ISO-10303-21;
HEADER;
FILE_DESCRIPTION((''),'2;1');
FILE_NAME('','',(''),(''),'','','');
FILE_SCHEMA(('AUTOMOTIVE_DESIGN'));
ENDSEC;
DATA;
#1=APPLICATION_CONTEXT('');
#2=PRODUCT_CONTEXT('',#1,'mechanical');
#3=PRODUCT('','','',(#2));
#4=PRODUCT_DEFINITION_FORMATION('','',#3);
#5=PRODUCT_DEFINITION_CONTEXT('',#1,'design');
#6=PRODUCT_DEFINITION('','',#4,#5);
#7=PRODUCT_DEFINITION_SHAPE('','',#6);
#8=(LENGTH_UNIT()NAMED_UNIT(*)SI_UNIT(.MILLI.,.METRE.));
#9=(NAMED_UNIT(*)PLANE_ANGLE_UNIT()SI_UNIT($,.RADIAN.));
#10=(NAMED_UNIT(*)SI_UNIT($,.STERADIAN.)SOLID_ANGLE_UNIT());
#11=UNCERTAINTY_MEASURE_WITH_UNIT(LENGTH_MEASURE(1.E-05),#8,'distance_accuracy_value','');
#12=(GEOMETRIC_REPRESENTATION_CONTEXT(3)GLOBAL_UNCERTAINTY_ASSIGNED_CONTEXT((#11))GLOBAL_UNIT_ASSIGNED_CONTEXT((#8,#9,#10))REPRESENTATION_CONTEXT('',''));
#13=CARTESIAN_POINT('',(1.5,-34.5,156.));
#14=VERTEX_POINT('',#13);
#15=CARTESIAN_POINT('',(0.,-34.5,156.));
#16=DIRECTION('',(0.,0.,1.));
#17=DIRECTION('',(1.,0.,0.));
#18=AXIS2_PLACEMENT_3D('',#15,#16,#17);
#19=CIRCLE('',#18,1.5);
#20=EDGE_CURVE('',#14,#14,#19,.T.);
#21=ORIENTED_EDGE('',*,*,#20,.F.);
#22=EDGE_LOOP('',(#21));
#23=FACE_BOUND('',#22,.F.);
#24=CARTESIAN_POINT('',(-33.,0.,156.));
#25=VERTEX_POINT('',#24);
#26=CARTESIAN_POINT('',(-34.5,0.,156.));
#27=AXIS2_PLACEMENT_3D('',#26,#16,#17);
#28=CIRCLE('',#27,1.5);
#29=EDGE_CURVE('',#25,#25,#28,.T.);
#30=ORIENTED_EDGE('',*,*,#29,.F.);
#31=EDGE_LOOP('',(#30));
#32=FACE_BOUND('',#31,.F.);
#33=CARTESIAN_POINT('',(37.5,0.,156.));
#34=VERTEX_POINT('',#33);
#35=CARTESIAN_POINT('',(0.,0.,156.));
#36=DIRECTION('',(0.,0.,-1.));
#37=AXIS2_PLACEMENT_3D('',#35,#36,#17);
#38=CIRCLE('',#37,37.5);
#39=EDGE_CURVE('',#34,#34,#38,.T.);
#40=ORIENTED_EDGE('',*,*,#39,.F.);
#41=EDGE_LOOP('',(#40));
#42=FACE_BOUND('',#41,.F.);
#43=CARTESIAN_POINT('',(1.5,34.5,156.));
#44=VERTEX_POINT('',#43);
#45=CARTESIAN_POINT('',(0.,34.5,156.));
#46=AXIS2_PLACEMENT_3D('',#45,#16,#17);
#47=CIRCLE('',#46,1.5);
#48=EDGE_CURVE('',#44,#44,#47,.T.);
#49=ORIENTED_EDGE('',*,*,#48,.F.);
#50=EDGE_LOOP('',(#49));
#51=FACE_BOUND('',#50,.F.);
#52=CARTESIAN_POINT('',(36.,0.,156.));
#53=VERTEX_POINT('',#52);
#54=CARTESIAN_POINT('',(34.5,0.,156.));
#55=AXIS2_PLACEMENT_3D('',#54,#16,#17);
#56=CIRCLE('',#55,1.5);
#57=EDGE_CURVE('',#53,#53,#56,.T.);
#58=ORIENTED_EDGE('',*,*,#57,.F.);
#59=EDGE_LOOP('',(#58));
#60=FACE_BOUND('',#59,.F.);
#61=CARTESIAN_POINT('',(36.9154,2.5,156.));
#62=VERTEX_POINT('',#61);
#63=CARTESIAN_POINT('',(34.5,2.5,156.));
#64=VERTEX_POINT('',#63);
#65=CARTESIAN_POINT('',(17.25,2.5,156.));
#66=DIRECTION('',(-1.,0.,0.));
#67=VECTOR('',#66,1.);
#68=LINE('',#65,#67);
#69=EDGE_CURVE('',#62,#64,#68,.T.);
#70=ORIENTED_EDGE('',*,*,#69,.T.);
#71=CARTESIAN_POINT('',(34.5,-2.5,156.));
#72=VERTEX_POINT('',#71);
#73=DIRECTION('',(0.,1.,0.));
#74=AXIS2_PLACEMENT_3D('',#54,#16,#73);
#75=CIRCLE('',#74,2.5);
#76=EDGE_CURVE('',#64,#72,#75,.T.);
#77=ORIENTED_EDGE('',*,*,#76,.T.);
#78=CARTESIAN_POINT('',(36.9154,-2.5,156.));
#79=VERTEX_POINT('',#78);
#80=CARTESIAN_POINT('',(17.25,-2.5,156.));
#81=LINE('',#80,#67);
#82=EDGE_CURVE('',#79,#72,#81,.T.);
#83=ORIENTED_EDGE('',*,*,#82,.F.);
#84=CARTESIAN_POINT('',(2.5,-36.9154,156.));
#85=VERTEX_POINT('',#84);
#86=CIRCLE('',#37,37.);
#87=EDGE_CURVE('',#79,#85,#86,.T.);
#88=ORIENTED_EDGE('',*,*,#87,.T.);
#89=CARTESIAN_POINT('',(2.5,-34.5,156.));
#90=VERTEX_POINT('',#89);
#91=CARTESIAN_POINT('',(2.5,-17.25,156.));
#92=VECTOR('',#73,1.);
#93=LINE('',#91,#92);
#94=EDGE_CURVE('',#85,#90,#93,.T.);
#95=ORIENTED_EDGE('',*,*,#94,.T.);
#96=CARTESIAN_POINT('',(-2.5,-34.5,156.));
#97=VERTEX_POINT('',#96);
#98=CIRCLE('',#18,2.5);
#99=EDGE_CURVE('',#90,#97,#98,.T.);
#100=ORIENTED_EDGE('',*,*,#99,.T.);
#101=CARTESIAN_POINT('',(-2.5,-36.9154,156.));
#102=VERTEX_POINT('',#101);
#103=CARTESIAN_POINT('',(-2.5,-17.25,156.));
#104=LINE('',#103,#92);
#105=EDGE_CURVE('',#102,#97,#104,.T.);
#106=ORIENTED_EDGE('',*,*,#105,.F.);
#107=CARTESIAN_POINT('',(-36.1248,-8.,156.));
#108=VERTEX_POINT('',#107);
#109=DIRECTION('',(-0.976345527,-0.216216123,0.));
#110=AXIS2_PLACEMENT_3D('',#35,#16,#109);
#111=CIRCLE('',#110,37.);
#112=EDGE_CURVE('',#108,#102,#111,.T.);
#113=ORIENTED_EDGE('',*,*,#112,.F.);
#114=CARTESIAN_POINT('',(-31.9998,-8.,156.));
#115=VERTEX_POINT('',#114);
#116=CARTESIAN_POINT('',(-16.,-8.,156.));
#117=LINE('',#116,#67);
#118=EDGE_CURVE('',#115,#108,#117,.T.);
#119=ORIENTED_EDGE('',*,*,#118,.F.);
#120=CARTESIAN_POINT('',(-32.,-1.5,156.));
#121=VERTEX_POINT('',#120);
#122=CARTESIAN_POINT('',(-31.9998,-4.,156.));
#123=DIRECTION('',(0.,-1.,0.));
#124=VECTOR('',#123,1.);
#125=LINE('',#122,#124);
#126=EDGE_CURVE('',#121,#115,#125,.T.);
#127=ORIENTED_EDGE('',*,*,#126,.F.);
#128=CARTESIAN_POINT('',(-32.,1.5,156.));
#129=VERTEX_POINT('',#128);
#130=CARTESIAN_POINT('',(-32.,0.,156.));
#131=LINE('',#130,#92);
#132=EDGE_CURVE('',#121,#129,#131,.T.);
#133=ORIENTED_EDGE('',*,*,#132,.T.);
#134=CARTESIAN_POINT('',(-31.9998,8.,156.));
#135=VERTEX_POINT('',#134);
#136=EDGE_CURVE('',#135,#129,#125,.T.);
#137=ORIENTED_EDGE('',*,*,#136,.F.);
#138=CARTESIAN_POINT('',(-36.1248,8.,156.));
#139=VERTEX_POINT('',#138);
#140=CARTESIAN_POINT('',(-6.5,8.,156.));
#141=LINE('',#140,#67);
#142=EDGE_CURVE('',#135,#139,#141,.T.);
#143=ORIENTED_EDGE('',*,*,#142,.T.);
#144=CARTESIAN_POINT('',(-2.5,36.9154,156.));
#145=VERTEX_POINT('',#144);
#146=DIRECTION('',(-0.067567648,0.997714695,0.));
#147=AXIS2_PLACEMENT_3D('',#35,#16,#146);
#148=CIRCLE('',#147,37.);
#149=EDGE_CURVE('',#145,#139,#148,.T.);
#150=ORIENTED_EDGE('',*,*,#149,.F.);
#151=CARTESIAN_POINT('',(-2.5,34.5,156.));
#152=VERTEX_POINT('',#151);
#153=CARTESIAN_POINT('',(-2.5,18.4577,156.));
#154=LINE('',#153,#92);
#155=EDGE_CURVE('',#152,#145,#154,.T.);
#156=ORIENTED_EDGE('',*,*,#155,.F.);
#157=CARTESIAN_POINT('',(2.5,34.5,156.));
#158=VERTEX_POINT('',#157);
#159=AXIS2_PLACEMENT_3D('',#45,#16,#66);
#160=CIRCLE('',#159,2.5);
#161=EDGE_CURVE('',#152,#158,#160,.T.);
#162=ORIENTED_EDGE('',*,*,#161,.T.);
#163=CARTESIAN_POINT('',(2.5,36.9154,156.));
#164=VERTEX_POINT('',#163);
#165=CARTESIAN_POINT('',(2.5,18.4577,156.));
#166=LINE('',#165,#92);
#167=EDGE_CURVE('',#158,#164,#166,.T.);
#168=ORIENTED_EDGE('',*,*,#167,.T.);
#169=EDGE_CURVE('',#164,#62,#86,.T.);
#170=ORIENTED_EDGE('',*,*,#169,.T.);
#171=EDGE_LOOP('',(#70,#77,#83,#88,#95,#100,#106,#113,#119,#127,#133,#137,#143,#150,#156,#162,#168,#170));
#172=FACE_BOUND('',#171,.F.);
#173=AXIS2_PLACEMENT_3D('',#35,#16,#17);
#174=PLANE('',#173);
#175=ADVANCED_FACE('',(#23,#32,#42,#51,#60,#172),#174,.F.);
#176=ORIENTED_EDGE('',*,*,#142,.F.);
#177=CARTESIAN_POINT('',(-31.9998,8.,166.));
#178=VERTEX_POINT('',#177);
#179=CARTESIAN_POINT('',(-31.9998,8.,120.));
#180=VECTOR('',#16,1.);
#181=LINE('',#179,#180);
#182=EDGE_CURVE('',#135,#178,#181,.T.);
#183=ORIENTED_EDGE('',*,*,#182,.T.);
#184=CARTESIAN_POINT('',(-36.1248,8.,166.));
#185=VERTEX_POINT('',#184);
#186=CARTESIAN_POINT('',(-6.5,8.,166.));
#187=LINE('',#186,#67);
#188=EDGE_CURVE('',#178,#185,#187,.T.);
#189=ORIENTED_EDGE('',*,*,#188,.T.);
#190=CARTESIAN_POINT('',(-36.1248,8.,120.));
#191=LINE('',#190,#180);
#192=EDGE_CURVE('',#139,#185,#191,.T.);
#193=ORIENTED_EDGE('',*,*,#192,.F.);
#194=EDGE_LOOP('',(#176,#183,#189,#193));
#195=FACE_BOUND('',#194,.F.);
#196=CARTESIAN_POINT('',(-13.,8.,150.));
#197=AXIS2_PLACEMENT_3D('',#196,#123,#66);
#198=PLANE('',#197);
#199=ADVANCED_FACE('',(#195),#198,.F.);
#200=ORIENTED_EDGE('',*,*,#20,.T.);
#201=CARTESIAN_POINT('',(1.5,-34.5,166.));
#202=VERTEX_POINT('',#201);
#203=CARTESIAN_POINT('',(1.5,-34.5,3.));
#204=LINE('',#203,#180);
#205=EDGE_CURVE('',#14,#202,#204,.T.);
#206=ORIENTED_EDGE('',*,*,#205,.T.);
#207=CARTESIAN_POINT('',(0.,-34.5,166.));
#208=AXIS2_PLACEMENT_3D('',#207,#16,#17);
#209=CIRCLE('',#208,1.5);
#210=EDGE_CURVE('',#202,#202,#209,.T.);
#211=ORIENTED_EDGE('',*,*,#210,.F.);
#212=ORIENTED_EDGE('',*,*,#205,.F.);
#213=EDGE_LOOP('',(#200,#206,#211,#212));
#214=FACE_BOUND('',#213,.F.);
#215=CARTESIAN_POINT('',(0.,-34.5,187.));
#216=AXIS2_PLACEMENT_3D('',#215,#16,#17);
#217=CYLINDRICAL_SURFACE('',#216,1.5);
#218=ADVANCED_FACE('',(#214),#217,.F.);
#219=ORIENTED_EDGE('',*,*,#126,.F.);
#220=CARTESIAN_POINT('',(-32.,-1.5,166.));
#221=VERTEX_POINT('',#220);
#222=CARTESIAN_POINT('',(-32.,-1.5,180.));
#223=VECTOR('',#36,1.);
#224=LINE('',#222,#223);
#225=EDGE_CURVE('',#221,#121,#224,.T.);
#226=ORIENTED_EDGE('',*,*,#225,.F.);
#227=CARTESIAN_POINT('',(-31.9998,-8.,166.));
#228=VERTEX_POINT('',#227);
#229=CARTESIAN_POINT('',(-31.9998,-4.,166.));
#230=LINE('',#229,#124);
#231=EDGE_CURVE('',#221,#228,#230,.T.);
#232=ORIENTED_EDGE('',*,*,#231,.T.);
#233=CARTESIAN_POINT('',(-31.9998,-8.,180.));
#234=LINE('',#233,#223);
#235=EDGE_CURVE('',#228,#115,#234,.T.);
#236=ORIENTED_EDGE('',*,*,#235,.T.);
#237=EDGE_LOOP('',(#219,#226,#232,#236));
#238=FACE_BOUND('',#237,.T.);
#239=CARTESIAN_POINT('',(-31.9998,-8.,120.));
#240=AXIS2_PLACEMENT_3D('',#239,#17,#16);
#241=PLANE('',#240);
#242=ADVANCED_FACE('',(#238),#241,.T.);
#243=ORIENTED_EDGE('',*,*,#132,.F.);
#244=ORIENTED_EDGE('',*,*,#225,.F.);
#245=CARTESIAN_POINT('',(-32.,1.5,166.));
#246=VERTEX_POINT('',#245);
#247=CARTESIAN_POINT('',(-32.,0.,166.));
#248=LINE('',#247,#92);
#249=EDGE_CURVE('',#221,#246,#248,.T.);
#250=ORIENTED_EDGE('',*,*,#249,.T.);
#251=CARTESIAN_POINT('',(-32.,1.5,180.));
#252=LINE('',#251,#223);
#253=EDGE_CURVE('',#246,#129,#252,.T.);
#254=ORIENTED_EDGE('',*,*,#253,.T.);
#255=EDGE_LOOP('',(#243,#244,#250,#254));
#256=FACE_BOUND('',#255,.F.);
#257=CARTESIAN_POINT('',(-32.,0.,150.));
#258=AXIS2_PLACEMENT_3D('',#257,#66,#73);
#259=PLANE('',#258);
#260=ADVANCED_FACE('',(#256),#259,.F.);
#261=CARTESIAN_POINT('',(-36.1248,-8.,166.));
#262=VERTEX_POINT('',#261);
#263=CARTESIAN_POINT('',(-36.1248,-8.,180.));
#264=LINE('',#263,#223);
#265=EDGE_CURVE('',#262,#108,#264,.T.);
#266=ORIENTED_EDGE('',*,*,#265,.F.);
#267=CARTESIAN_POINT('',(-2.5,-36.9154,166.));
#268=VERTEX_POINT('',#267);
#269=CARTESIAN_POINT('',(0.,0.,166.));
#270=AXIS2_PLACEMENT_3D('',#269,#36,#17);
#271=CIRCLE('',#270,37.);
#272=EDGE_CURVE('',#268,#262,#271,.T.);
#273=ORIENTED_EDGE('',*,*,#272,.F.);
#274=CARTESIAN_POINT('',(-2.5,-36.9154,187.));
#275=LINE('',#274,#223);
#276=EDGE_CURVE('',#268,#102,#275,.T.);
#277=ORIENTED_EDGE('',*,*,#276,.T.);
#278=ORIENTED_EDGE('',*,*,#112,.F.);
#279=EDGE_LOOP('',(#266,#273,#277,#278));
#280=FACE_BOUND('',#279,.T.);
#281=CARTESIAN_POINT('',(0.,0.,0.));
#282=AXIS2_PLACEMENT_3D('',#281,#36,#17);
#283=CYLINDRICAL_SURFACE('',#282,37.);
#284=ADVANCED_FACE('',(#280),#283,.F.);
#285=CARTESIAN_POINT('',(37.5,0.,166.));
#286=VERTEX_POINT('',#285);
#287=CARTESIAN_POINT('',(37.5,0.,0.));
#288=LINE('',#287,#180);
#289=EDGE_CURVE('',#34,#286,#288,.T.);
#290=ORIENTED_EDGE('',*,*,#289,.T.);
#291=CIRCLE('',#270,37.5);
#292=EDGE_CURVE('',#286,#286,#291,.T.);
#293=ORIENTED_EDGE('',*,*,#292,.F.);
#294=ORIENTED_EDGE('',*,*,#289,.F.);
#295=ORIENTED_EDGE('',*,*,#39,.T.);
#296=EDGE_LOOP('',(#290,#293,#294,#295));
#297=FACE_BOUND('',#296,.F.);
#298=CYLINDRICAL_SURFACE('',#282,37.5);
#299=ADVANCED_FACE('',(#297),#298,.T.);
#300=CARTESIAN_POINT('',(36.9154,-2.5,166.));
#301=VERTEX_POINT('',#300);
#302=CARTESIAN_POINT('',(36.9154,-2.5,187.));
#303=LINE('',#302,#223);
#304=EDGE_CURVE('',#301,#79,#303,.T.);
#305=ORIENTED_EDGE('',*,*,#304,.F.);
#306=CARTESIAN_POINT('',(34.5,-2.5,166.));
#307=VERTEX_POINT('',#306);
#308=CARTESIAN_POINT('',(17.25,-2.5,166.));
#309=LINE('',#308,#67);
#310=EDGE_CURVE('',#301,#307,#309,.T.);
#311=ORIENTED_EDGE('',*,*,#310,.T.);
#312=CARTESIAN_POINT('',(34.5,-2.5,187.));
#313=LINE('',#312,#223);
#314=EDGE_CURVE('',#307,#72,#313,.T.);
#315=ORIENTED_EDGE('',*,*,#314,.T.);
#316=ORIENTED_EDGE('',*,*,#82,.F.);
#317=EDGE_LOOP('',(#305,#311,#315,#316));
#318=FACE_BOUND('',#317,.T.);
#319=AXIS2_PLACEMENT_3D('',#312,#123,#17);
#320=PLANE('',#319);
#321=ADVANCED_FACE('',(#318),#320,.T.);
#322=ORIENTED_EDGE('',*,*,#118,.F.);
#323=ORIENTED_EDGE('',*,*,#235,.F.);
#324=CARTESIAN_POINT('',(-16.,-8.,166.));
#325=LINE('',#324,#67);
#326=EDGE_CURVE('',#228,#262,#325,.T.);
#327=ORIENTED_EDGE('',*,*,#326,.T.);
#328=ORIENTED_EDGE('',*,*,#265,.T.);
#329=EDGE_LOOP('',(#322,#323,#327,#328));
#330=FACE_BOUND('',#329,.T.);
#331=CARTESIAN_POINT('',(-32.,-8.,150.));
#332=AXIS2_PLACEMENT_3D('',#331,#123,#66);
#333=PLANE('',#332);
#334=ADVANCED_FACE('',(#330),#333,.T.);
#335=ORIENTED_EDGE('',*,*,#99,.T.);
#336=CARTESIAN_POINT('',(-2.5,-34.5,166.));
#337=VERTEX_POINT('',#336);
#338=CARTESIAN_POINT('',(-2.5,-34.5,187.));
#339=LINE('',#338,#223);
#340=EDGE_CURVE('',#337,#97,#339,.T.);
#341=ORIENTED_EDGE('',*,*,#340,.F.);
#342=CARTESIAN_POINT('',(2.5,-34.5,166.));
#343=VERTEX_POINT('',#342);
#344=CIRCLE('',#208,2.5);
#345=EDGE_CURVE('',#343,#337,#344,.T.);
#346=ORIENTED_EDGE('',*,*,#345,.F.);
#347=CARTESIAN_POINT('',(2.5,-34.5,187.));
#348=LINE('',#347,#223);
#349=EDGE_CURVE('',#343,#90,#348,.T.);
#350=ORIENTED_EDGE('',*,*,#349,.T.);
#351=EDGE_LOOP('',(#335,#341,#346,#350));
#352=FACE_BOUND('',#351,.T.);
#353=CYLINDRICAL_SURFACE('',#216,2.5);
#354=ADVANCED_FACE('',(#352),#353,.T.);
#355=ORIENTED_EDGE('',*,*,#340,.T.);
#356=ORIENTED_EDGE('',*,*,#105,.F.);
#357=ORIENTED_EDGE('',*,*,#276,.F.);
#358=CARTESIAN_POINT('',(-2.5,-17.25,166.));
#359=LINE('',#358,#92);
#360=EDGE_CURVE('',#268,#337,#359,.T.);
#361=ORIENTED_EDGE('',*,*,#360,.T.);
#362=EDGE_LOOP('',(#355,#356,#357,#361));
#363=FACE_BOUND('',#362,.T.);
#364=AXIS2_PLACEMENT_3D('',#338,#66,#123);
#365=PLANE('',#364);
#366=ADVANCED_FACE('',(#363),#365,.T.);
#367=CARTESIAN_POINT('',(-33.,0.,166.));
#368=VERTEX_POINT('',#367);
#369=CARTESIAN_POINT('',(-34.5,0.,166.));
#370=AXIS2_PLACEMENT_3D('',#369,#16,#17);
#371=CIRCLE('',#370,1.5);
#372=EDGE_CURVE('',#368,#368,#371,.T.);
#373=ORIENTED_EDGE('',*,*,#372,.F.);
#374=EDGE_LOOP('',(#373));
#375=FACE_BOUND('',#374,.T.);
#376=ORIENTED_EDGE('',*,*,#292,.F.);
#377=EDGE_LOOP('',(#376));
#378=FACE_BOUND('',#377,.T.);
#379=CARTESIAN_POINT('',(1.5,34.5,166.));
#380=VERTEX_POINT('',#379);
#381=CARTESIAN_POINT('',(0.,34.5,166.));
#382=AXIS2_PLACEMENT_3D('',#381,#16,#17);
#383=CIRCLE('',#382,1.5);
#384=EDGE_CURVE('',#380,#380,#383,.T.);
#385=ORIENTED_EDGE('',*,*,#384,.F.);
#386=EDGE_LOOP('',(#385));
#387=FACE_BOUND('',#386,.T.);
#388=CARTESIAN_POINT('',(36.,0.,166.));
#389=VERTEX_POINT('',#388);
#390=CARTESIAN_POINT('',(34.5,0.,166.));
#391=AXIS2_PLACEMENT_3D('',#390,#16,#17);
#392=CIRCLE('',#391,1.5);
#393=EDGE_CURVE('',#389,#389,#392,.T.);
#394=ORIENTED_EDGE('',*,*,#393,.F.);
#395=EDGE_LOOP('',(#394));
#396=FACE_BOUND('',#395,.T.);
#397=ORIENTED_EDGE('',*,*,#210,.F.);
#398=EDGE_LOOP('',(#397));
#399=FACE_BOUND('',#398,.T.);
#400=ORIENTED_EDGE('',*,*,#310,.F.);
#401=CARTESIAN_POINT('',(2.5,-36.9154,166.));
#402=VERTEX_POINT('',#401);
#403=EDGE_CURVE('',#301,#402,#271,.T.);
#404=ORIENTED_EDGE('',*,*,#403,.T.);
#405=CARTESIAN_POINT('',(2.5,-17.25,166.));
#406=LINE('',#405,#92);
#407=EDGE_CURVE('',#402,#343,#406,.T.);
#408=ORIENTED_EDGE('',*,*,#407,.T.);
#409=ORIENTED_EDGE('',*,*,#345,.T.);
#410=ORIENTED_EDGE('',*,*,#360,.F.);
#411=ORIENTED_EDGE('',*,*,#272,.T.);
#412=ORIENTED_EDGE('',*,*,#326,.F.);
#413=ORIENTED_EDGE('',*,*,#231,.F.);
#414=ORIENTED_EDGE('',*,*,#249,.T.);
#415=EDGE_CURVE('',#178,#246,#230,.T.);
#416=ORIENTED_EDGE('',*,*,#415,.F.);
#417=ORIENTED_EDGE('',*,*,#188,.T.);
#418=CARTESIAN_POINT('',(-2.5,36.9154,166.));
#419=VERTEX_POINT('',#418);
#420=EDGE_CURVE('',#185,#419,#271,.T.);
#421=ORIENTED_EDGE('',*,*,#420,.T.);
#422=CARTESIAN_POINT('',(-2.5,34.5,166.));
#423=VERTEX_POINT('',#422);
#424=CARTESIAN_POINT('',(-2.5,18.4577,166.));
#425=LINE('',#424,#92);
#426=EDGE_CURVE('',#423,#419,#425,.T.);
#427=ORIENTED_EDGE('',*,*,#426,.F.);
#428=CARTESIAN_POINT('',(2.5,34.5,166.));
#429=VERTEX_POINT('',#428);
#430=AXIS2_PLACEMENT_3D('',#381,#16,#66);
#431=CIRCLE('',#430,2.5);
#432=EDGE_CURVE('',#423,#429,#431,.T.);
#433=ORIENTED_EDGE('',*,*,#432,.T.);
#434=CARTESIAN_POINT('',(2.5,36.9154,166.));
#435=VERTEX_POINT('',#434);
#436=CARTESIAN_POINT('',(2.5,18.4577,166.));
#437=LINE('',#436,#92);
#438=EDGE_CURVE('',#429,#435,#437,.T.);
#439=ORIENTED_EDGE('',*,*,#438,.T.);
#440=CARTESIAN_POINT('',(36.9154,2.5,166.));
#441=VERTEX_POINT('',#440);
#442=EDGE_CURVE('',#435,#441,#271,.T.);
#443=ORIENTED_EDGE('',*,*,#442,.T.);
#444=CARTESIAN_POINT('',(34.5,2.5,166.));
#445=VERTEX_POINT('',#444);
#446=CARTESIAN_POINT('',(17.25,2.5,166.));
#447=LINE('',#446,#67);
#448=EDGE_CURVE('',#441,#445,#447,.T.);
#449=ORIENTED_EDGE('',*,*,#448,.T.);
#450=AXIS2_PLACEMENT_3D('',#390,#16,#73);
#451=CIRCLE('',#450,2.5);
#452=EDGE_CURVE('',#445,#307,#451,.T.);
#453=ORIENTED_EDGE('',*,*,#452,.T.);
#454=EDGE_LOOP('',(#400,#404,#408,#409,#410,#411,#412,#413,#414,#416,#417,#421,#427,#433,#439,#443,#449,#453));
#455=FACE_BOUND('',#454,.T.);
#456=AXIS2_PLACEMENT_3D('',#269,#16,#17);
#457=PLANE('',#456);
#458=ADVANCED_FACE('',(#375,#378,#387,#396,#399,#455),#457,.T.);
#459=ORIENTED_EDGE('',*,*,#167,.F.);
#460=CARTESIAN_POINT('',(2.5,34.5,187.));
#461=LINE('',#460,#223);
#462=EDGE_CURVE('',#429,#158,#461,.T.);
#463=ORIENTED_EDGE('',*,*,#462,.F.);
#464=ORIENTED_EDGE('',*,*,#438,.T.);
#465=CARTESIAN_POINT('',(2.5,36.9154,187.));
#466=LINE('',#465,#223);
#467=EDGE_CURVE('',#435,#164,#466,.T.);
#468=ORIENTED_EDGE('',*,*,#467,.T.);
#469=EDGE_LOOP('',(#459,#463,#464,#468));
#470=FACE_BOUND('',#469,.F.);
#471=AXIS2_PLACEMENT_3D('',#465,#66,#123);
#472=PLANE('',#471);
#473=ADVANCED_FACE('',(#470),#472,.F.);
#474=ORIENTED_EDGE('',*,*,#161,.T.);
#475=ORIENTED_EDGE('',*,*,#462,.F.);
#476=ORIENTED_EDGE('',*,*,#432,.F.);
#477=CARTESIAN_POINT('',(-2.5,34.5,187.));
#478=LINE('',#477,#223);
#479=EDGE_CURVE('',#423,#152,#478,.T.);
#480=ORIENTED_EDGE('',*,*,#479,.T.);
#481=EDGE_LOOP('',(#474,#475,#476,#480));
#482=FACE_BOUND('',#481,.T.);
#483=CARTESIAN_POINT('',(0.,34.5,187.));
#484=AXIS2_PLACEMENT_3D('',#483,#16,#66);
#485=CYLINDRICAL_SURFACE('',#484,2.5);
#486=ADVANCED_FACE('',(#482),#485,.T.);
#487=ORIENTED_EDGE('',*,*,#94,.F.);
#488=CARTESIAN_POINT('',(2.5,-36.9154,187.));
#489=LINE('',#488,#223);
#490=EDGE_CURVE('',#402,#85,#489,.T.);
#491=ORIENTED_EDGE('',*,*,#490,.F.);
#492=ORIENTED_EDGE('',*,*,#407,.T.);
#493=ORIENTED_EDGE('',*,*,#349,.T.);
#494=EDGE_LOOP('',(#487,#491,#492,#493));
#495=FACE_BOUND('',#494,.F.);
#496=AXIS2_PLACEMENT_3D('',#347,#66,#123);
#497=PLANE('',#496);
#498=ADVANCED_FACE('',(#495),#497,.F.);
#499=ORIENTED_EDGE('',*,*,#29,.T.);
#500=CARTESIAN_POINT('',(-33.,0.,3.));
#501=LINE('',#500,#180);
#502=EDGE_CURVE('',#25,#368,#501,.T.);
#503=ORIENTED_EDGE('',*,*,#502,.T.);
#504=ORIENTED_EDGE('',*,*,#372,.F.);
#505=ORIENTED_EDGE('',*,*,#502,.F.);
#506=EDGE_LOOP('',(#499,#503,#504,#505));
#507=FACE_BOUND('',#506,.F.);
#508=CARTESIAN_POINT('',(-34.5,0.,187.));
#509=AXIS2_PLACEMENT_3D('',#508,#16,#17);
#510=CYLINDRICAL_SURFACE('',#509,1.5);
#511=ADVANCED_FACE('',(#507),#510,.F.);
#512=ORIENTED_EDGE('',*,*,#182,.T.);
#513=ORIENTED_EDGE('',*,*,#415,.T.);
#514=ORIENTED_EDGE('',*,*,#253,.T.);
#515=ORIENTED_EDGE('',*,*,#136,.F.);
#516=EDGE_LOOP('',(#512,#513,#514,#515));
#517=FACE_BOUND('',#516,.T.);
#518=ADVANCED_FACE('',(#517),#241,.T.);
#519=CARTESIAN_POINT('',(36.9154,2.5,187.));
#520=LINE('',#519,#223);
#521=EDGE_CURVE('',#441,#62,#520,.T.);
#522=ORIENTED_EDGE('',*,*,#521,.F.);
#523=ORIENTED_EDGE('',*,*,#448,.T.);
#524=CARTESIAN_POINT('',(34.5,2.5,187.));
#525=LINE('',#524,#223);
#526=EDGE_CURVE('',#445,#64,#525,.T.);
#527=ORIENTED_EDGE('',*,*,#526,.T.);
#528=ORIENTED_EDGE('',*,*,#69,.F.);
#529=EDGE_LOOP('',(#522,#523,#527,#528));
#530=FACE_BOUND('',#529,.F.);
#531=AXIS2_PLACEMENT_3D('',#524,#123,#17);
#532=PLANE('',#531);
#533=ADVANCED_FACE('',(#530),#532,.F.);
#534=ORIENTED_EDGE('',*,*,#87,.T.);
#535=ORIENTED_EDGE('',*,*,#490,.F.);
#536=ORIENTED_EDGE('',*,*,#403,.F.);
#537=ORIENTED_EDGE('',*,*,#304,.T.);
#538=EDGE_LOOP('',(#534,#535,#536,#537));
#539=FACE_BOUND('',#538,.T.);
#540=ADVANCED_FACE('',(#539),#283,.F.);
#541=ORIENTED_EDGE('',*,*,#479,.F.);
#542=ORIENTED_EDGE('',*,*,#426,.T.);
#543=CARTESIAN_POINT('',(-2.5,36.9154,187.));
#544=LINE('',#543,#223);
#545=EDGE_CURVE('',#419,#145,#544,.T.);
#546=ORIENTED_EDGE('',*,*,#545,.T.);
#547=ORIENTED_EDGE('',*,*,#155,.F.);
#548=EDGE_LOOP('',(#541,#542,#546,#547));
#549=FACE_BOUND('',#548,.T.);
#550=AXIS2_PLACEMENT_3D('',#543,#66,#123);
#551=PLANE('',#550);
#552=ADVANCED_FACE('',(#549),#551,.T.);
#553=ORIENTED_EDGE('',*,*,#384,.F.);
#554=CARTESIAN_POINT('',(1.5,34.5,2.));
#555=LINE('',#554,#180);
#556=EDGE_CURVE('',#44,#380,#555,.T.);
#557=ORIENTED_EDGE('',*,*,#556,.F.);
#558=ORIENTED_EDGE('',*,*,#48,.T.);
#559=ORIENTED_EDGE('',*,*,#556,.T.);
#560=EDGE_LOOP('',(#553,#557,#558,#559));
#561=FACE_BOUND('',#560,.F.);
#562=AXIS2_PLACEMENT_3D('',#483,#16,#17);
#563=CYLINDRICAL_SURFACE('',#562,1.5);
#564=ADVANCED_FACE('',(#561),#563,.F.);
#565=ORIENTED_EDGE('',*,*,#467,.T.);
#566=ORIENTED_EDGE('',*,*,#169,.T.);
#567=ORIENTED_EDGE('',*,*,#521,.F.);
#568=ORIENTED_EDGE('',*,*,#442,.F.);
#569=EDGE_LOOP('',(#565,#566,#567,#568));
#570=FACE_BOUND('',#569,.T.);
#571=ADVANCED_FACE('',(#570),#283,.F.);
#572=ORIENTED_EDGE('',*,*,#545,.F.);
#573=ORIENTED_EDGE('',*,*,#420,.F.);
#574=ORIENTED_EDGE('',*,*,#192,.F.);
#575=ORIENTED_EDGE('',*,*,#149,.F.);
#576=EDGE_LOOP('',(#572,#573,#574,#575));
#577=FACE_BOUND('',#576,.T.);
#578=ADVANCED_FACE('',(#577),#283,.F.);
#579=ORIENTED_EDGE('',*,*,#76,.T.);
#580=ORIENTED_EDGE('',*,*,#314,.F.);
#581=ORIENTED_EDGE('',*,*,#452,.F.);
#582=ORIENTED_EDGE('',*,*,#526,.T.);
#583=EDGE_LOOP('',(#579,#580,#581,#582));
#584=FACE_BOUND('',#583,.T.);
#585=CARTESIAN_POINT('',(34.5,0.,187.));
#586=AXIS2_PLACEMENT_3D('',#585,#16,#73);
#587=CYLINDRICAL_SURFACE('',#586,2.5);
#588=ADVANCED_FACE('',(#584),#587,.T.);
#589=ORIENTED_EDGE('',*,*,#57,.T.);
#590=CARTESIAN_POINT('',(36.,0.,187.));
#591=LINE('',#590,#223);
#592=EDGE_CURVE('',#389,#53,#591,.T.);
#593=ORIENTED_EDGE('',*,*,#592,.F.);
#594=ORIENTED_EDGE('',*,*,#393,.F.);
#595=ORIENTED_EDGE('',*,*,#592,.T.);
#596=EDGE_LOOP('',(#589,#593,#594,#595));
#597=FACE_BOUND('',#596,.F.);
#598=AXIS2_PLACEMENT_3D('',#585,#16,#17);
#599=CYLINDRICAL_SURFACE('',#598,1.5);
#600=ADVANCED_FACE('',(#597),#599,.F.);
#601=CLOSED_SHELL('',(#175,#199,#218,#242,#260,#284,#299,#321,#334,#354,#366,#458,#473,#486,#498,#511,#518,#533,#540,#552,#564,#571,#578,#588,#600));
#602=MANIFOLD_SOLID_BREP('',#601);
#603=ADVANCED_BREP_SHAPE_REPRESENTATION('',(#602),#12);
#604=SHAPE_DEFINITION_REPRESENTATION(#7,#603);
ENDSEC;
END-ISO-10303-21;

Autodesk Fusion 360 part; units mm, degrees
sketch "Esboço2" plane through (0, 0, 0) normal (0, 0, 1) x (1, 0, 0)
  circle A0 centre (0, 0) radius 37.5
  circle A1 centre (0, 0) radius 37
  dimension "d6" = 75
  dimension "d7" = 74
extrude "Extrusão2" add sketch "Esboço2" along normal blind 190
ref_plane "Plano de trabalho9" through (0, 0, 187) normal (0, 0, 1) x (1, 0, 0)
sketch "Esboço10" plane through (0, 0, 187) normal (0, 0, 1) x (1, 0, 0)
  circle A0 centre (0, 0) radius 34.5 construction
  line L0 (0, 0) -> (-68.1762, 0) construction
  line L1 (0, 0) -> (60, 0) construction
  line L2 (0, 0) -> (0, 45) construction
  line L3 (0, 0) -> (0, -43.1659) construction
  circle A1 centre (34.5, 0) radius 1.5
  line L4 (3, -43) -> (3, -42)
  circle A2 centre (0, 34.5) radius 1.5
  circle A3 centre (-34.5, 0) radius 1.5
  circle A4 centre (0, -34.5) radius 1.5
  arc A5 (34.5, 2.5) -> (34.5, -2.5) centre (34.5, 0) ccw
  arc A6 (-2.5, 34.5) -> (2.5, 34.5) centre (0, 34.5) ccw
  arc A7 (-34.5, -2.5) -> (-34.5, 2.5) centre (-34.5, 0) ccw
  arc A8 (2.5, -34.5) -> (-2.5, -34.5) centre (0, -34.5) ccw
  circle A9 centre (0, 0) radius 37
  line L5 (-36.9154, 2.5) -> (-34.4093, 2.5)
  line L6 (-36.9154, -2.5) -> (-34.4093, -2.5)
  line L7 (34.5, 2.5) -> (36.9154, 2.5)
  line L8 (34.5, -2.5) -> (36.9154, -2.5)
  line L9 (2.5, 36.9154) -> (2.5, 34.4093)
  line L10 (-2.5, 36.9154) -> (-2.5, 34.4093)
  line L11 (-2.5, -34.4093) -> (-2.5, -36.9154)
  line L12 (2.5, -34.4093) -> (2.5, -36.9154)
  dimension "d82" = 69
  dimension "d83" = 3
  dimension "d84" = 2.5
  dimension "d85" = 2.5
  dimension "d87" = 360
  dimension "d89" = 360
  dimension "d90" = 2.5
extrude "Extrusão12" add sketch "Esboço10" against normal blind 184 contours A5 A9 L7 L8 | A6 A9 L9 L10 | A8 A9 L11 L12 | A7 A9 L5 L6
thread "Rosca3"
ref_plane "Plano de trabalho3" through (0, 0, 32) normal (0, 0, 1) x (1, 0, 0)
sketch "Esboço3" plane through (0, 0, 32) normal (0, 0, 1) x (1, 0, 0)
  line L0 (0, 0) -> (0, 37) construction
  line L1 (34.2491, 14) -> (-34.2491, 14)
  circle A0 centre (0, 0) radius 37
  line L2 (31.1288, 20) -> (-31.1288, 20)
  line L3 (32.8634, 17) -> (-32.8634, 17)
  circle A1 centre (0, 0) radius 50
  circle A2 centre (0, 0) radius 37.5
  line L4 (-8, 0) -> (8, 0)
  line L5 (8, 0) -> (8, 36.1248)
  line L6 (-8, 0) -> (-8, 36.1248)
  circle A3 centre (0, 34.5) radius 1.5
  line L7 (1.5, 32.5) -> (1.5, 0)
  arc A4 (-2.5, 34.5) -> (2.5, 34.5) centre (0, 34.5) ccw
  line L8 (-1.5, 32.5) -> (-1.5, 0)
  line L9 (27.8634, 24.3441) -> (27.8634, 11)
  line L10 (27.8634, 11) -> (35.327, 11)
  line L11 (-27.8634, 11) -> (-35.327, 11)
  line L12 (-27.8634, 24.3441) -> (-27.8634, 11)
  line L13 (-30.4631, 21) -> (30.4631, 21)
  line L14 (-34.641, 13) -> (34.641, 13)
  line L15 (0, 32) -> (8, 32)
  line L16 (0, 32) -> (-8, 32)
  dimension "d12" = 6
  dimension "d15" = 3
  dimension "d17" = 75
  dimension "d18" = 100
  dimension "d41" = 14
  dimension "d51" = 8
  dimension "d52" = 16
  dimension "d99" = 3
  dimension "d100" = 2.5
  dimension "d115" = 6.5
  dimension "d123" = 5
  dimension "d124" = 6
  dimension "d143" = 4
  dimension "d144" = 4
extrude "Extrusão21" add sketch "Esboço3" along normal blind 6 and the other way blind 6 contours L1 A0 L9 L14 | L1 A0 L3 L9 | A0 L9 L10 L14 | A0 L2 L3 L9 | A0 L2 L9 L13 | A0 L9 L13 | A0 L11 L12 L14 | L1 A0 L12 L14 | L1 A0 L3 L12 | A0 L2 L3 L12 | A0 L12 L13 | A0 L2 L12 L13
sketch "Esboço18" plane through (-27.8634, 0, 0) normal (1, 0, 0) x (0, 1, 0)
  line L0 (24.3441, 26) -> (24.3441, 38)
  line L1 (24.3441, 38) -> (11, 38)
  line L2 (11, 38) -> (11, 26)
  line L3 (11, 26) -> (24.3441, 26)
  circle A0 centre (17, 32) radius 4
  point P0 (11, 32)
  dimension "d166" = 8
  dimension "d167" = 6
  dimension "d168" = 6
ref_plane "Plano de trabalho11" through (0, 0, 0) normal (1, 0, 0) x (0, 1, 0)
extrude "Extrusão23" cut sketch "Esboço18" against normal blind 15 contours A0
extrude "Extrusão7" add sketch "Esboço3" along normal blind 30 and the other way blind 30 contours L1 L5 L7 L14 | L1 L3 L5 L7 | L4 L5 L7 L14 | L2 L3 L5 L7 | L1 L6 L8 L14 | L1 L3 L6 L8 | L2 L5 L7 L13 | L2 L3 L6 L8 | L4 L6 L8 L14 | L5 L7 L13 L15 | A0 L5 L6 L7 A4 L8 L15 L16 | L2 L6 L8 L13 | L6 L8 L13 L16 | L7 A4 L15 | A4 L8 L16
sketch "Esboço19" plane through (27.8634, 0, 0) normal (-1, 0, 0) x (0, -1, 0)
  line L0 (-11, 26) -> (-11, 38)
  line L1 (-11, 38) -> (-24.3441, 38)
  line L2 (-24.3441, 38) -> (-24.3441, 26)
  line L3 (-24.3441, 26) -> (-11, 26)
extrude "Extrusão24" cut sketch "Esboço18" along normal blind 80 contours A0
sketch "Esboço11" plane through (8, 0, 0) normal (1, 0, 0) x (0, 1, 0)
  line L0 (0, 2) -> (36.1248, 2)
  line L1 (36.1248, 2) -> (36.1248, 62)
  line L2 (36.1248, 62) -> (0, 62)
  line L3 (0, 62) -> (0, 2)
  circle A0 centre (17, 32) radius 3
  circle A1 centre (17, 32) radius 9.5
  circle A2 centre (17, 32) radius 12.5
  line L4 (36.1248, 32) -> (36.1248, -5) construction
  line L5 (0, 32) -> (36.1248, 32)
  line L6 (30.1248, 2) -> (8.3278, 22.9976)
  line L7 (30.1248, 62) -> (8.3278, 41.0024)
  line L8 (30.1248, 2) -> (31.9998, 2)
  line L9 (31.9998, 2) -> (31.9998, 32)
  line L10 (30.1248, 62) -> (31.9998, 62)
  line L11 (31.9998, 62) -> (31.9998, 32)
  circle A3 centre (17, 32) radius 4
  point P0 (14, 32)
  point P1 (20, 32)
  dimension "d106" = 6
  dimension "d107" = 19
  dimension "d109" = 25
  dimension "d110" = 6
  dimension "d147" = 1.875
extrude "Extrusão13" cut sketch "Esboço11" against normal blind 16 contours L0 L3 A2 L5 L6 | L0 A2 L5 L6 L8 L9 | L2 L3 A2 L5 L7 | A1 A2 L5 | A1 A2 L5 | L2 A2 L5 L7 L10 L11 | A1 L5 A3 | A1 L5 A3 | A0 L5 A3 | A0 L5 A3 | A0 L5 | A0 L5
ref_plane "Plano de trabalho4" through (0, 0, 150) normal (0, 0, 1) x (1, 0, 0)
sketch "Esboço4" plane through (0, 0, 150) normal (0, 0, 1) x (1, 0, 0)
  circle A0 centre (0, 0) radius 37
  circle A1 centre (0, 0) radius 50
  circle A2 centre (0, 0) radius 37.5
  line L0 (-20, -31.1288) -> (-20, 31.1288)
  line L1 (-17, -32.8634) -> (-17, 32.8634)
  line L2 (-14, -34.2491) -> (-14, 34.2491)
  line L3 (0, 8) -> (0, -8)
  line L4 (0, 8) -> (-36.1248, 8)
  line L5 (0, -8) -> (-36.1248, -8)
  line L6 (0, 0) -> (-37, 0) construction
  circle A3 centre (-34.5, 0) radius 1.5
  line L7 (0, 1.5) -> (-32.5, 1.5)
  arc A4 (-34.5, -2.5) -> (-34.5, 2.5) centre (-34.5, 0) ccw
  line L8 (0, -1.5) -> (-32.5, -1.5)
  line L9 (-24.3441, -27.8634) -> (-11, -27.8634)
  line L10 (-11, -27.8634) -> (-11, -35.327)
  line L11 (-24.3441, 27.8634) -> (-11, 27.8634)
  line L12 (-11, 27.8634) -> (-11, 35.327)
  line L13 (-13, 34.641) -> (-13, -34.641)
  line L14 (-21, 30.4631) -> (-21, -30.4631)
  line L15 (-32, 0) -> (-32, 8)
  line L16 (-32, 0) -> (-32, -8)
  dimension "d28" = 75
  dimension "d29" = 100
  dimension "d38" = 14
  dimension "d39" = 6
  dimension "d40" = 3
  dimension "d43" = 16
  dimension "d44" = 8
  dimension "d101" = 3
  dimension "d102" = 2.5
  dimension "d116" = 6.5
  dimension "d135" = 6
  dimension "d136" = 5
  dimension "d145" = 4
  dimension "d146" = 4
extrude "Extrusão25" add sketch "Esboço4" along normal blind 6 and the other way blind 6 contours A0 L11 L12 L13 | A0 L9 L10 L13 | A0 L2 L11 L13 | A0 L2 L9 L13 | A0 L1 L2 L11 | A0 L1 L2 L9 | A0 L0 L1 L11 | A0 L0 L1 L9 | A0 L0 L11 L14 | A0 L0 L9 L14 | A0 L11 L14 | A0 L9 L14
sketch "Esboço20" plane through (0, 27.8634, 0) normal (0, -1, 0) x (1, 0, 0)
  line L0 (-11, 144) -> (-11, 156)
  line L1 (-11, 156) -> (-24.3441, 156)
  line L2 (-24.3441, 156) -> (-24.3441, 144)
  line L3 (-24.3441, 144) -> (-11, 144)
  circle A0 centre (-17, 150) radius 4
  dimension "d179" = 8
  dimension "d180" = 6
  dimension "d182" = 6
extrude "Extrusão26" cut sketch "Esboço20" against normal blind 15 contours A0
sketch "Esboço21" plane through (0, -27.8634, 0) normal (0, 1, 0) x (-1, 0, 0)
  line L0 (24.3441, 144) -> (24.3441, 156)
  line L1 (24.3441, 156) -> (11, 156)
  line L2 (11, 156) -> (11, 144)
  line L3 (11, 144) -> (24.3441, 144)
  circle A0 centre (17, 150) radius 4
  dimension "d185" = 8
  dimension "d186" = 6
  dimension "d187" = 6
extrude "Extrusão27" cut sketch "Esboço21" against normal blind 15 contours A0
extrude "Extrusão6" add sketch "Esboço4" along normal blind 30 and the other way blind 30 contours L2 L4 L7 L13 | L3 L4 L7 L13 | L3 L5 L8 L13 | L2 L5 L8 L13 | L1 L2 L4 L7 | L1 L2 L5 L8 | L0 L1 L4 L7 | L0 L1 L5 L8 | L0 L4 L7 L14 | L0 L5 L8 L14 | A0 L4 L5 L7 A4 L8 L15 L16 | L4 L7 L14 L15 | L5 L8 L14 L16 | L7 A4 L15 | A4 L8 L16
sketch "Esboço13" plane through (0, -8, 0) normal (0, -1, 0) x (1, 0, 0)
  line L0 (0, 120) -> (0, 180)
  line L1 (0, 180) -> (-36.1248, 180)
  line L2 (-36.1248, 180) -> (-36.1248, 120)
  line L3 (-36.1248, 120) -> (0, 120)
  circle A0 centre (-17, 150) radius 3
  circle A1 centre (-17, 150) radius 9.5
  circle A2 centre (-17, 150) radius 12.5
  line L4 (-36.1248, 150) -> (-36.1248, 198.4836) construction
  line L5 (-30.1248, 180) -> (-6.6704, 157.4058)
  line L6 (0, 150) -> (-36.1248, 150)
  line L7 (-30.1248, 120) -> (-6.6704, 142.5942)
  line L8 (-30.1248, 180) -> (-31.9998, 180)
  line L9 (-31.9998, 180) -> (-31.9998, 150)
  line L10 (-30.1248, 120) -> (-31.9998, 120)
  line L11 (-31.9998, 120) -> (-31.9998, 150)
  point P0 (-14, 150)
  point P1 (-20, 150)
  dimension "d117" = 6
  dimension "d118" = 19
  dimension "d119" = 25
  dimension "d120" = 6
  dimension "d148" = 1.875
extrude "Extrusão14" cut sketch "Esboço13" against normal blind 16 contours L0 L3 A2 L6 L7 | L0 L1 A2 L5 L6 | L3 A2 L6 L7 L10 L11 | A1 A2 L6 | A1 A2 L6 | L1 A2 L5 L6 L8 L9 | A0 A1 L6 | A0 A1 L6 | A0 L6 | A0 L6
ref_plane "Plano de trabalho5" through (0, 0, 0) normal (1, 0, 0) x (0, 1, 0)
ref_plane "Plano de trabalho6" through (0, 0, 0) normal (0, 1, 0) x (0, 0, 1)
ref_plane "Plano de trabalho7" through (0, 0, 134.3) normal (0, 0, 1) x (1, 0, 0)
sketch "Esboço8" plane through (0, 0, 134.3) normal (0, 0, 1) x (1, 0, 0)
  line L0 (46.3444, 0) -> (0, 0) construction
  line L1 (8, 36.1248) -> (8, -36.1248)
  line L2 (-8, -36.1248) -> (-8, 36.1248)
  circle A0 centre (0, 0) radius 37
  line L3 (0, 0) -> (0, 37) construction
  circle A1 centre (0, 34.5) radius 1.5
  circle A2 centre (0, -34.5) radius 1.5
  dimension "d72" = 8
  dimension "d73" = 8
  dimension "d95" = 2.5
  dimension "d96" = 3
extrude "Extrusão10" add sketch "Esboço8" along normal blind 2 contours L1 L2 A0
ref_plane "Plano de trabalho8" through (0, 0, 45.7) normal (0, 0, 1) x (1, 0, 0)
sketch "Esboço9" plane through (0, 0, 45.7) normal (0, 0, 1) x (1, 0, 0)
  line L0 (0, 0) -> (-37, 0) construction
  line L1 (-36.1248, 8) -> (36.1248, 8)
  line L2 (-36.1248, -8) -> (36.1248, -8)
  circle A0 centre (0, 0) radius 37
  circle A1 centre (-34.5, 0) radius 1.5
  line L3 (0, 0) -> (0, 43.2459) construction
  circle A2 centre (34.5, 0) radius 1.5
  dimension "d77" = 8
  dimension "d78" = 8
  dimension "d97" = 3
  dimension "d98" = 2.5
extrude "Extrusão11" add sketch "Esboço9" along normal blind 2 contours L1 L2 A0
ref_plane "Plano de trabalho10" through (8, 18.0624, 32) normal (1, 0, 0) x (0, 1, 0)
sketch "Esboço16" plane through (-31.9998, 0, 0) normal (1, 0, 0) x (0, 1, 0)
  line L0 (1.5, 180) -> (1.5, 120)
  line L1 (1.5, 120) -> (8, 120)
  line L2 (8, 120) -> (8, 180)
  line L3 (8, 180) -> (1.5, 180)
  line L4 (4.75, 180) -> (4.75, 120) construction
  circle A0 centre (4.75, 170) radius 1.5
  circle A1 centre (4.75, 130) radius 1.5
  line L5 (8, 150) -> (-12.335, 150) construction
  line L6 (0, 2.5) -> (0, 20)
  circle A2 centre (-4.75, 170) radius 1.5
  circle A3 centre (-4.75, 130) radius 1.5
  dimension "d149" = 3
  dimension "d150" = 3
  dimension "d151" = 40
  dimension "d152" = 20
extrude "Extrusão19" cut sketch "Esboço16" against normal blind 10 contours A0 | A1 | A2 | A3
sketch "Esboço17" plane through (0, 31.9998, 0) normal (0, -1, 0) x (1, 0, 0)
  line L0 (1.5, 62) -> (1.5, 2)
  line L1 (1.5, 2) -> (8, 2)
  line L2 (8, 2) -> (8, 62)
  line L3 (8, 62) -> (1.5, 62)
  line L4 (4.75, 2) -> (4.75, 62) construction
  line L5 (8, 32) -> (-12, 32) construction
  circle A0 centre (4.75, 52) radius 1.5
  circle A1 centre (4.75, 12) radius 1.5
  line L6 (0, 1.75) -> (0, 22.5)
  circle A2 centre (-4.75, 12) radius 1.5
  circle A3 centre (-4.75, 52) radius 1.5
  dimension "d155" = 3
  dimension "d156" = 3
  dimension "d157" = 40
  dimension "d158" = 20
extrude "Extrusão20" cut sketch "Esboço17" against normal blind 10 contours A0 | A1 | A2 | A3
thread "Rosca4"
thread "Rosca5"
sketch "Esboço22" plane through (0, 0, 136.3) normal (0, 0, 1) x (-1, 0, 0)
  line L0 (2.5, 36.9154) -> (2.5, 34.5)
  arc A0 (-2.5, 34.5) -> (2.5, 34.5) centre (0, 34.5) ccw
  line L1 (-2.5, 34.5) -> (-2.5, 36.9154)
  arc A1 (-2.5, 36.9154) -> (-8, 36.1248) centre (0, 0) ccw
  line L2 (-8, 36.1248) -> (-8, -36.1248)
  arc A2 (-8, -36.1248) -> (-2.5, -36.9154) centre (0, 0) ccw
  line L3 (-2.5, -36.9154) -> (-2.5, -34.5)
  arc A3 (2.5, -34.5) -> (-2.5, -34.5) centre (0, -34.5) ccw
  line L4 (2.5, -34.5) -> (2.5, -36.9154)
  arc A4 (2.5, -36.9154) -> (8, -36.1248) centre (0, 0) ccw
  line L5 (8, -36.1248) -> (8, 36.1248)
  arc A5 (8, 36.1248) -> (2.5, 36.9154) centre (0, 0) ccw
  line L6 (0, 0) -> (-21, 0) construction
  line L7 (0, 0) -> (0, -19.3) construction
  line L8 (2, -15.8) -> (-2, -15.8)
  arc A6 (-2, -15.8) -> (-2, -22.8) centre (-2, -19.3) ccw
  line L9 (-2, -22.8) -> (2, -22.8)
  arc A7 (2, -22.8) -> (2, -15.8) centre (2, -19.3) ccw
  line L10 (2, -19.3) -> (-2, -19.3) construction
  arc A8 (-2, 22.8) -> (-2, 15.8) centre (-2, 19.3) ccw
  line L11 (2, 15.8) -> (-2, 15.8)
  arc A9 (2, 15.8) -> (2, 22.8) centre (2, 19.3) ccw
  line L12 (-2, 22.8) -> (2, 22.8)
  circle A10 centre (0, 10.8) radius 1.5 construction
  line L13 (2, 19.3) -> (-2, 19.3) construction
  line L14 (2, 12.3) -> (-2, 12.3)
  arc A11 (-2, 12.3) -> (-2, 9.3) centre (-2, 10.8) ccw
  line L15 (-2, 9.3) -> (2, 9.3)
  arc A12 (2, 9.3) -> (2, 12.3) centre (2, 10.8) ccw
  line L16 (2, 10.8) -> (-2, 10.8) construction
  line L17 (2, 26.3) -> (-2, 26.3)
  arc A13 (2, 26.3) -> (2, 29.3) centre (2, 27.8) ccw
  line L18 (-2, 29.3) -> (2, 29.3)
  arc A14 (-2, 29.3) -> (-2, 26.3) centre (-2, 27.8) ccw
  arc A15 (2, -29.3) -> (2, -26.3) centre (2, -27.8) ccw
  line L19 (2, -26.3) -> (-2, -26.3)
  arc A16 (-2, -26.3) -> (-2, -29.3) centre (-2, -27.8) ccw
  line L20 (-2, -29.3) -> (2, -29.3)
  arc A17 (2, -12.3) -> (2, -9.3) centre (2, -10.8) ccw
  line L21 (-2, -9.3) -> (2, -9.3)
  arc A18 (-2, -9.3) -> (-2, -12.3) centre (-2, -10.8) ccw
  line L22 (2, -12.3) -> (-2, -12.3)
  point P0 (0, -19.3)
  point P1 (0, 10.8)
  dimension "d191" = 19.3
  dimension "d195" = 2
  dimension "d196" = 3.5
  dimension "d204" = 3
  dimension "d205" = 8.5
  dimension "d230" = 1.5
  dimension "d231" = 4
extrude "Extrusão28" cut sketch "Esboço22" against normal blind 5 contours L8 A6 L9 A7 | A8 L11 A9 L12 | L14 A11 L15 A12 | L17 A13 L18 A14 | A15 L19 A16 L20 | A17 L21 A18 L22
sketch "Esboço23" plane through (0, 0, 45.7) normal (0, 0, -1) x (1, 0, 0)
  line L0 (36.9154, -2.5) -> (34.5, -2.5)
  arc A0 (34.5, 2.5) -> (34.5, -2.5) centre (34.5, 0) ccw
  line L1 (34.5, 2.5) -> (36.9154, 2.5)
  arc A1 (36.9154, 2.5) -> (36.1248, 8) centre (0, 0) ccw
  line L2 (36.1248, 8) -> (-36.1248, 8)
  arc A2 (-36.1248, 8) -> (-36.9154, 2.5) centre (0, 0) ccw
  line L3 (-36.9154, 2.5) -> (-34.5, 2.5)
  arc A3 (-34.5, -2.5) -> (-34.5, 2.5) centre (-34.5, 0) ccw
  line L4 (-34.5, -2.5) -> (-36.9154, -2.5)
  arc A4 (-36.9154, -2.5) -> (-36.1248, -8) centre (0, 0) ccw
  line L5 (-36.1248, -8) -> (36.1248, -8)
  arc A5 (36.1248, -8) -> (36.9154, -2.5) centre (0, 0) ccw
  line L6 (0, 0) -> (0, -19) construction
  line L7 (0, 0) -> (19.3, 0)
  line L8 (15.8, 2.5) -> (15.8, -2.5)
  arc A6 (15.8, -2.5) -> (22.8, -2.5) centre (19.3, -2.5) ccw
  line L9 (22.8, -2.5) -> (22.8, 2.5)
  arc A7 (22.8, 2.5) -> (15.8, 2.5) centre (19.3, 2.5) ccw
  line L10 (19.3, 2.5) -> (19.3, -2.5) construction
  line L11 (-15.8, 2.5) -> (-15.8, -2.5)
  arc A8 (-15.8, 2.5) -> (-22.8, 2.5) centre (-19.3, 2.5) ccw
  line L12 (-22.8, -2.5) -> (-22.8, 2.5)
  arc A9 (-22.8, -2.5) -> (-15.8, -2.5) centre (-19.3, -2.5) ccw
  circle A10 centre (10.8, 0) radius 1.5 construction
  circle A11 centre (27.8, 0) radius 1.5 construction
  line L13 (9.3, 2.5) -> (9.3, -2.5)
  arc A12 (9.3, -2.5) -> (12.3, -2.5) centre (10.8, -2.5) ccw
  line L14 (12.3, -2.5) -> (12.3, 2.5)
  arc A13 (12.3, 2.5) -> (9.3, 2.5) centre (10.8, 2.5) ccw
  line L15 (10.8, 2.5) -> (10.8, -2.5) construction
  line L16 (26.3, -2.5) -> (26.3, 2.5)
  arc A14 (26.3, -2.5) -> (29.3, -2.5) centre (27.8, -2.5) ccw
  line L17 (29.3, 2.5) -> (29.3, -2.5)
  arc A15 (29.3, 2.5) -> (26.3, 2.5) centre (27.8, 2.5) ccw
  line L18 (-12.3, -2.5) -> (-12.3, 2.5)
  arc A16 (-12.3, -2.5) -> (-9.3, -2.5) centre (-10.8, -2.5) ccw
  line L19 (-9.3, 2.5) -> (-9.3, -2.5)
  arc A17 (-9.3, 2.5) -> (-12.3, 2.5) centre (-10.8, 2.5) ccw
  line L20 (-26.3, -2.5) -> (-26.3, 2.5)
  arc A18 (-29.3, -2.5) -> (-26.3, -2.5) centre (-27.8, -2.5) ccw
  line L21 (-29.3, 2.5) -> (-29.3, -2.5)
  arc A19 (-26.3, 2.5) -> (-29.3, 2.5) centre (-27.8, 2.5) ccw
  point P0 (19.3, 0)
  point P1 (10.8, 0)
  dimension "d199" = 3.5
  dimension "d200" = 5
  dimension "d201" = 19.3
  dimension "d206" = 3
  dimension "d207" = 8.5
  dimension "d228" = 2.5
  dimension "d229" = 1.5
extrude "Extrusão29" cut sketch "Esboço23" against normal blind 10 contours L7 L13 L14 A13 | L8 A6 L9 A7 | L7 L13 A12 L14 | L11 A8 L12 A9 | L16 A14 L17 A15 | L20 A18 L21 A19
ref_plane "Plano de trabalho12" through (0, 0, 106.3) normal (0, 0, 1) x (1, 0, 0)
sketch "Esboço24" plane through (0, 0, 106.3) normal (0, 0, 1) x (1, 0, 0)
  line L0 (0, 0) -> (28.1868, 0) construction
  line L1 (16, 0) -> (16, 33.3617)
  circle A0 centre (0, 0) radius 37
  line L2 (16, 0) -> (16, -33.3617)
  line L3 (0, 0) -> (0, 19.3) construction
  line L4 (-16, 0) -> (-16, 33.3617)
  line L5 (-16, 0) -> (-16, -33.3617)
  line L6 (-2, 6.8) -> (2, 6.8)
  arc A1 (2, 6.8) -> (2, 31.8) centre (2, 19.3) ccw
  line L7 (2, 31.8) -> (-2, 31.8)
  arc A2 (-2, 31.8) -> (-2, 6.8) centre (-2, 19.3) ccw
  line L8 (-2, 19.3) -> (2, 19.3) construction
  arc A3 (2, -31.8) -> (2, -6.8) centre (2, -19.3) ccw
  arc A4 (-2, -6.8) -> (-2, -31.8) centre (-2, -19.3) ccw
  line L9 (-2, -6.8) -> (2, -6.8)
  line L10 (2, -31.8) -> (-2, -31.8)
  circle A5 centre (0, 34.5) radius 1.5
  circle A6 centre (0, -34.5) radius 1.5
  point P0 (0, 19.3)
  dimension "d209" = 16
  dimension "d210" = 12.5
  dimension "d211" = 4
  dimension "d212" = 19.3
  dimension "d215" = 3
  dimension "d216" = 34.5
ref_plane "Plano de trabalho13" through (0, 0, 55.7) normal (0, 0, -1) x (-1, 0, 0)
ref_plane "Plano de trabalho14" through (0, 0, 60) normal (0, 0, 1) x (1, 0, 0)
sketch "Esboço25" plane through (0, 0, 55.7) normal (0, 0, -1) x (1, 0, 0)
  line L0 (-33.3617, 16) -> (33.3617, 16)
  circle A0 centre (0, 0) radius 37
  line L1 (0, 0) -> (-19.3, 0) construction
  line L2 (-33.3617, -16) -> (33.3617, -16)
  line L3 (-6.8, -2) -> (-6.8, 2)
  arc A1 (-6.8, 2) -> (-31.8, 2) centre (-19.3, 2) ccw
  line L4 (-31.8, 2) -> (-31.8, -2)
  arc A2 (-31.8, -2) -> (-6.8, -2) centre (-19.3, -2) ccw
  line L5 (-19.3, -2) -> (-19.3, 2) construction
  circle A3 centre (-34.5, 0) radius 1.5
  line L6 (0, 0) -> (0, -12) construction
  arc A4 (31.8, 2) -> (6.8, 2) centre (19.3, 2) ccw
  line L7 (6.8, -2) -> (6.8, 2)
  arc A5 (6.8, -2) -> (31.8, -2) centre (19.3, -2) ccw
  circle A6 centre (34.5, 0) radius 1.5
  line L8 (31.8, 2) -> (31.8, -2)
  point P0 (-19.3, 0)
  dimension "d219" = 16
  dimension "d220" = 12.5
  dimension "d221" = 4
  dimension "d222" = 19.3
  dimension "d224" = 34.5
  dimension "d225" = 3
ref_plane "Plano de trabalho15" through (0, 0, 156) normal (0, 0, 1) x (1, 0, 0)
ref_plane "Plano de trabalho16" through (0, 0, 166) normal (0, 0, 1) x (1, 0, 0)
sketch "Esboço26" plane through (0, 0, 166) normal (0, 0, 1) x (1, 0, 0)
  circle A0 centre (0, 0) radius 51.0333
extrude "Extrusão32" cut sketch "Esboço26" along normal blind 100
sketch "Esboço27" plane through (0, 0, 156) normal (0, 0, 1) x (1, 0, 0)
  circle A0 centre (0, 0) radius 50
extrude "Extrusão33" cut sketch "Esboço27" against normal blind 200
